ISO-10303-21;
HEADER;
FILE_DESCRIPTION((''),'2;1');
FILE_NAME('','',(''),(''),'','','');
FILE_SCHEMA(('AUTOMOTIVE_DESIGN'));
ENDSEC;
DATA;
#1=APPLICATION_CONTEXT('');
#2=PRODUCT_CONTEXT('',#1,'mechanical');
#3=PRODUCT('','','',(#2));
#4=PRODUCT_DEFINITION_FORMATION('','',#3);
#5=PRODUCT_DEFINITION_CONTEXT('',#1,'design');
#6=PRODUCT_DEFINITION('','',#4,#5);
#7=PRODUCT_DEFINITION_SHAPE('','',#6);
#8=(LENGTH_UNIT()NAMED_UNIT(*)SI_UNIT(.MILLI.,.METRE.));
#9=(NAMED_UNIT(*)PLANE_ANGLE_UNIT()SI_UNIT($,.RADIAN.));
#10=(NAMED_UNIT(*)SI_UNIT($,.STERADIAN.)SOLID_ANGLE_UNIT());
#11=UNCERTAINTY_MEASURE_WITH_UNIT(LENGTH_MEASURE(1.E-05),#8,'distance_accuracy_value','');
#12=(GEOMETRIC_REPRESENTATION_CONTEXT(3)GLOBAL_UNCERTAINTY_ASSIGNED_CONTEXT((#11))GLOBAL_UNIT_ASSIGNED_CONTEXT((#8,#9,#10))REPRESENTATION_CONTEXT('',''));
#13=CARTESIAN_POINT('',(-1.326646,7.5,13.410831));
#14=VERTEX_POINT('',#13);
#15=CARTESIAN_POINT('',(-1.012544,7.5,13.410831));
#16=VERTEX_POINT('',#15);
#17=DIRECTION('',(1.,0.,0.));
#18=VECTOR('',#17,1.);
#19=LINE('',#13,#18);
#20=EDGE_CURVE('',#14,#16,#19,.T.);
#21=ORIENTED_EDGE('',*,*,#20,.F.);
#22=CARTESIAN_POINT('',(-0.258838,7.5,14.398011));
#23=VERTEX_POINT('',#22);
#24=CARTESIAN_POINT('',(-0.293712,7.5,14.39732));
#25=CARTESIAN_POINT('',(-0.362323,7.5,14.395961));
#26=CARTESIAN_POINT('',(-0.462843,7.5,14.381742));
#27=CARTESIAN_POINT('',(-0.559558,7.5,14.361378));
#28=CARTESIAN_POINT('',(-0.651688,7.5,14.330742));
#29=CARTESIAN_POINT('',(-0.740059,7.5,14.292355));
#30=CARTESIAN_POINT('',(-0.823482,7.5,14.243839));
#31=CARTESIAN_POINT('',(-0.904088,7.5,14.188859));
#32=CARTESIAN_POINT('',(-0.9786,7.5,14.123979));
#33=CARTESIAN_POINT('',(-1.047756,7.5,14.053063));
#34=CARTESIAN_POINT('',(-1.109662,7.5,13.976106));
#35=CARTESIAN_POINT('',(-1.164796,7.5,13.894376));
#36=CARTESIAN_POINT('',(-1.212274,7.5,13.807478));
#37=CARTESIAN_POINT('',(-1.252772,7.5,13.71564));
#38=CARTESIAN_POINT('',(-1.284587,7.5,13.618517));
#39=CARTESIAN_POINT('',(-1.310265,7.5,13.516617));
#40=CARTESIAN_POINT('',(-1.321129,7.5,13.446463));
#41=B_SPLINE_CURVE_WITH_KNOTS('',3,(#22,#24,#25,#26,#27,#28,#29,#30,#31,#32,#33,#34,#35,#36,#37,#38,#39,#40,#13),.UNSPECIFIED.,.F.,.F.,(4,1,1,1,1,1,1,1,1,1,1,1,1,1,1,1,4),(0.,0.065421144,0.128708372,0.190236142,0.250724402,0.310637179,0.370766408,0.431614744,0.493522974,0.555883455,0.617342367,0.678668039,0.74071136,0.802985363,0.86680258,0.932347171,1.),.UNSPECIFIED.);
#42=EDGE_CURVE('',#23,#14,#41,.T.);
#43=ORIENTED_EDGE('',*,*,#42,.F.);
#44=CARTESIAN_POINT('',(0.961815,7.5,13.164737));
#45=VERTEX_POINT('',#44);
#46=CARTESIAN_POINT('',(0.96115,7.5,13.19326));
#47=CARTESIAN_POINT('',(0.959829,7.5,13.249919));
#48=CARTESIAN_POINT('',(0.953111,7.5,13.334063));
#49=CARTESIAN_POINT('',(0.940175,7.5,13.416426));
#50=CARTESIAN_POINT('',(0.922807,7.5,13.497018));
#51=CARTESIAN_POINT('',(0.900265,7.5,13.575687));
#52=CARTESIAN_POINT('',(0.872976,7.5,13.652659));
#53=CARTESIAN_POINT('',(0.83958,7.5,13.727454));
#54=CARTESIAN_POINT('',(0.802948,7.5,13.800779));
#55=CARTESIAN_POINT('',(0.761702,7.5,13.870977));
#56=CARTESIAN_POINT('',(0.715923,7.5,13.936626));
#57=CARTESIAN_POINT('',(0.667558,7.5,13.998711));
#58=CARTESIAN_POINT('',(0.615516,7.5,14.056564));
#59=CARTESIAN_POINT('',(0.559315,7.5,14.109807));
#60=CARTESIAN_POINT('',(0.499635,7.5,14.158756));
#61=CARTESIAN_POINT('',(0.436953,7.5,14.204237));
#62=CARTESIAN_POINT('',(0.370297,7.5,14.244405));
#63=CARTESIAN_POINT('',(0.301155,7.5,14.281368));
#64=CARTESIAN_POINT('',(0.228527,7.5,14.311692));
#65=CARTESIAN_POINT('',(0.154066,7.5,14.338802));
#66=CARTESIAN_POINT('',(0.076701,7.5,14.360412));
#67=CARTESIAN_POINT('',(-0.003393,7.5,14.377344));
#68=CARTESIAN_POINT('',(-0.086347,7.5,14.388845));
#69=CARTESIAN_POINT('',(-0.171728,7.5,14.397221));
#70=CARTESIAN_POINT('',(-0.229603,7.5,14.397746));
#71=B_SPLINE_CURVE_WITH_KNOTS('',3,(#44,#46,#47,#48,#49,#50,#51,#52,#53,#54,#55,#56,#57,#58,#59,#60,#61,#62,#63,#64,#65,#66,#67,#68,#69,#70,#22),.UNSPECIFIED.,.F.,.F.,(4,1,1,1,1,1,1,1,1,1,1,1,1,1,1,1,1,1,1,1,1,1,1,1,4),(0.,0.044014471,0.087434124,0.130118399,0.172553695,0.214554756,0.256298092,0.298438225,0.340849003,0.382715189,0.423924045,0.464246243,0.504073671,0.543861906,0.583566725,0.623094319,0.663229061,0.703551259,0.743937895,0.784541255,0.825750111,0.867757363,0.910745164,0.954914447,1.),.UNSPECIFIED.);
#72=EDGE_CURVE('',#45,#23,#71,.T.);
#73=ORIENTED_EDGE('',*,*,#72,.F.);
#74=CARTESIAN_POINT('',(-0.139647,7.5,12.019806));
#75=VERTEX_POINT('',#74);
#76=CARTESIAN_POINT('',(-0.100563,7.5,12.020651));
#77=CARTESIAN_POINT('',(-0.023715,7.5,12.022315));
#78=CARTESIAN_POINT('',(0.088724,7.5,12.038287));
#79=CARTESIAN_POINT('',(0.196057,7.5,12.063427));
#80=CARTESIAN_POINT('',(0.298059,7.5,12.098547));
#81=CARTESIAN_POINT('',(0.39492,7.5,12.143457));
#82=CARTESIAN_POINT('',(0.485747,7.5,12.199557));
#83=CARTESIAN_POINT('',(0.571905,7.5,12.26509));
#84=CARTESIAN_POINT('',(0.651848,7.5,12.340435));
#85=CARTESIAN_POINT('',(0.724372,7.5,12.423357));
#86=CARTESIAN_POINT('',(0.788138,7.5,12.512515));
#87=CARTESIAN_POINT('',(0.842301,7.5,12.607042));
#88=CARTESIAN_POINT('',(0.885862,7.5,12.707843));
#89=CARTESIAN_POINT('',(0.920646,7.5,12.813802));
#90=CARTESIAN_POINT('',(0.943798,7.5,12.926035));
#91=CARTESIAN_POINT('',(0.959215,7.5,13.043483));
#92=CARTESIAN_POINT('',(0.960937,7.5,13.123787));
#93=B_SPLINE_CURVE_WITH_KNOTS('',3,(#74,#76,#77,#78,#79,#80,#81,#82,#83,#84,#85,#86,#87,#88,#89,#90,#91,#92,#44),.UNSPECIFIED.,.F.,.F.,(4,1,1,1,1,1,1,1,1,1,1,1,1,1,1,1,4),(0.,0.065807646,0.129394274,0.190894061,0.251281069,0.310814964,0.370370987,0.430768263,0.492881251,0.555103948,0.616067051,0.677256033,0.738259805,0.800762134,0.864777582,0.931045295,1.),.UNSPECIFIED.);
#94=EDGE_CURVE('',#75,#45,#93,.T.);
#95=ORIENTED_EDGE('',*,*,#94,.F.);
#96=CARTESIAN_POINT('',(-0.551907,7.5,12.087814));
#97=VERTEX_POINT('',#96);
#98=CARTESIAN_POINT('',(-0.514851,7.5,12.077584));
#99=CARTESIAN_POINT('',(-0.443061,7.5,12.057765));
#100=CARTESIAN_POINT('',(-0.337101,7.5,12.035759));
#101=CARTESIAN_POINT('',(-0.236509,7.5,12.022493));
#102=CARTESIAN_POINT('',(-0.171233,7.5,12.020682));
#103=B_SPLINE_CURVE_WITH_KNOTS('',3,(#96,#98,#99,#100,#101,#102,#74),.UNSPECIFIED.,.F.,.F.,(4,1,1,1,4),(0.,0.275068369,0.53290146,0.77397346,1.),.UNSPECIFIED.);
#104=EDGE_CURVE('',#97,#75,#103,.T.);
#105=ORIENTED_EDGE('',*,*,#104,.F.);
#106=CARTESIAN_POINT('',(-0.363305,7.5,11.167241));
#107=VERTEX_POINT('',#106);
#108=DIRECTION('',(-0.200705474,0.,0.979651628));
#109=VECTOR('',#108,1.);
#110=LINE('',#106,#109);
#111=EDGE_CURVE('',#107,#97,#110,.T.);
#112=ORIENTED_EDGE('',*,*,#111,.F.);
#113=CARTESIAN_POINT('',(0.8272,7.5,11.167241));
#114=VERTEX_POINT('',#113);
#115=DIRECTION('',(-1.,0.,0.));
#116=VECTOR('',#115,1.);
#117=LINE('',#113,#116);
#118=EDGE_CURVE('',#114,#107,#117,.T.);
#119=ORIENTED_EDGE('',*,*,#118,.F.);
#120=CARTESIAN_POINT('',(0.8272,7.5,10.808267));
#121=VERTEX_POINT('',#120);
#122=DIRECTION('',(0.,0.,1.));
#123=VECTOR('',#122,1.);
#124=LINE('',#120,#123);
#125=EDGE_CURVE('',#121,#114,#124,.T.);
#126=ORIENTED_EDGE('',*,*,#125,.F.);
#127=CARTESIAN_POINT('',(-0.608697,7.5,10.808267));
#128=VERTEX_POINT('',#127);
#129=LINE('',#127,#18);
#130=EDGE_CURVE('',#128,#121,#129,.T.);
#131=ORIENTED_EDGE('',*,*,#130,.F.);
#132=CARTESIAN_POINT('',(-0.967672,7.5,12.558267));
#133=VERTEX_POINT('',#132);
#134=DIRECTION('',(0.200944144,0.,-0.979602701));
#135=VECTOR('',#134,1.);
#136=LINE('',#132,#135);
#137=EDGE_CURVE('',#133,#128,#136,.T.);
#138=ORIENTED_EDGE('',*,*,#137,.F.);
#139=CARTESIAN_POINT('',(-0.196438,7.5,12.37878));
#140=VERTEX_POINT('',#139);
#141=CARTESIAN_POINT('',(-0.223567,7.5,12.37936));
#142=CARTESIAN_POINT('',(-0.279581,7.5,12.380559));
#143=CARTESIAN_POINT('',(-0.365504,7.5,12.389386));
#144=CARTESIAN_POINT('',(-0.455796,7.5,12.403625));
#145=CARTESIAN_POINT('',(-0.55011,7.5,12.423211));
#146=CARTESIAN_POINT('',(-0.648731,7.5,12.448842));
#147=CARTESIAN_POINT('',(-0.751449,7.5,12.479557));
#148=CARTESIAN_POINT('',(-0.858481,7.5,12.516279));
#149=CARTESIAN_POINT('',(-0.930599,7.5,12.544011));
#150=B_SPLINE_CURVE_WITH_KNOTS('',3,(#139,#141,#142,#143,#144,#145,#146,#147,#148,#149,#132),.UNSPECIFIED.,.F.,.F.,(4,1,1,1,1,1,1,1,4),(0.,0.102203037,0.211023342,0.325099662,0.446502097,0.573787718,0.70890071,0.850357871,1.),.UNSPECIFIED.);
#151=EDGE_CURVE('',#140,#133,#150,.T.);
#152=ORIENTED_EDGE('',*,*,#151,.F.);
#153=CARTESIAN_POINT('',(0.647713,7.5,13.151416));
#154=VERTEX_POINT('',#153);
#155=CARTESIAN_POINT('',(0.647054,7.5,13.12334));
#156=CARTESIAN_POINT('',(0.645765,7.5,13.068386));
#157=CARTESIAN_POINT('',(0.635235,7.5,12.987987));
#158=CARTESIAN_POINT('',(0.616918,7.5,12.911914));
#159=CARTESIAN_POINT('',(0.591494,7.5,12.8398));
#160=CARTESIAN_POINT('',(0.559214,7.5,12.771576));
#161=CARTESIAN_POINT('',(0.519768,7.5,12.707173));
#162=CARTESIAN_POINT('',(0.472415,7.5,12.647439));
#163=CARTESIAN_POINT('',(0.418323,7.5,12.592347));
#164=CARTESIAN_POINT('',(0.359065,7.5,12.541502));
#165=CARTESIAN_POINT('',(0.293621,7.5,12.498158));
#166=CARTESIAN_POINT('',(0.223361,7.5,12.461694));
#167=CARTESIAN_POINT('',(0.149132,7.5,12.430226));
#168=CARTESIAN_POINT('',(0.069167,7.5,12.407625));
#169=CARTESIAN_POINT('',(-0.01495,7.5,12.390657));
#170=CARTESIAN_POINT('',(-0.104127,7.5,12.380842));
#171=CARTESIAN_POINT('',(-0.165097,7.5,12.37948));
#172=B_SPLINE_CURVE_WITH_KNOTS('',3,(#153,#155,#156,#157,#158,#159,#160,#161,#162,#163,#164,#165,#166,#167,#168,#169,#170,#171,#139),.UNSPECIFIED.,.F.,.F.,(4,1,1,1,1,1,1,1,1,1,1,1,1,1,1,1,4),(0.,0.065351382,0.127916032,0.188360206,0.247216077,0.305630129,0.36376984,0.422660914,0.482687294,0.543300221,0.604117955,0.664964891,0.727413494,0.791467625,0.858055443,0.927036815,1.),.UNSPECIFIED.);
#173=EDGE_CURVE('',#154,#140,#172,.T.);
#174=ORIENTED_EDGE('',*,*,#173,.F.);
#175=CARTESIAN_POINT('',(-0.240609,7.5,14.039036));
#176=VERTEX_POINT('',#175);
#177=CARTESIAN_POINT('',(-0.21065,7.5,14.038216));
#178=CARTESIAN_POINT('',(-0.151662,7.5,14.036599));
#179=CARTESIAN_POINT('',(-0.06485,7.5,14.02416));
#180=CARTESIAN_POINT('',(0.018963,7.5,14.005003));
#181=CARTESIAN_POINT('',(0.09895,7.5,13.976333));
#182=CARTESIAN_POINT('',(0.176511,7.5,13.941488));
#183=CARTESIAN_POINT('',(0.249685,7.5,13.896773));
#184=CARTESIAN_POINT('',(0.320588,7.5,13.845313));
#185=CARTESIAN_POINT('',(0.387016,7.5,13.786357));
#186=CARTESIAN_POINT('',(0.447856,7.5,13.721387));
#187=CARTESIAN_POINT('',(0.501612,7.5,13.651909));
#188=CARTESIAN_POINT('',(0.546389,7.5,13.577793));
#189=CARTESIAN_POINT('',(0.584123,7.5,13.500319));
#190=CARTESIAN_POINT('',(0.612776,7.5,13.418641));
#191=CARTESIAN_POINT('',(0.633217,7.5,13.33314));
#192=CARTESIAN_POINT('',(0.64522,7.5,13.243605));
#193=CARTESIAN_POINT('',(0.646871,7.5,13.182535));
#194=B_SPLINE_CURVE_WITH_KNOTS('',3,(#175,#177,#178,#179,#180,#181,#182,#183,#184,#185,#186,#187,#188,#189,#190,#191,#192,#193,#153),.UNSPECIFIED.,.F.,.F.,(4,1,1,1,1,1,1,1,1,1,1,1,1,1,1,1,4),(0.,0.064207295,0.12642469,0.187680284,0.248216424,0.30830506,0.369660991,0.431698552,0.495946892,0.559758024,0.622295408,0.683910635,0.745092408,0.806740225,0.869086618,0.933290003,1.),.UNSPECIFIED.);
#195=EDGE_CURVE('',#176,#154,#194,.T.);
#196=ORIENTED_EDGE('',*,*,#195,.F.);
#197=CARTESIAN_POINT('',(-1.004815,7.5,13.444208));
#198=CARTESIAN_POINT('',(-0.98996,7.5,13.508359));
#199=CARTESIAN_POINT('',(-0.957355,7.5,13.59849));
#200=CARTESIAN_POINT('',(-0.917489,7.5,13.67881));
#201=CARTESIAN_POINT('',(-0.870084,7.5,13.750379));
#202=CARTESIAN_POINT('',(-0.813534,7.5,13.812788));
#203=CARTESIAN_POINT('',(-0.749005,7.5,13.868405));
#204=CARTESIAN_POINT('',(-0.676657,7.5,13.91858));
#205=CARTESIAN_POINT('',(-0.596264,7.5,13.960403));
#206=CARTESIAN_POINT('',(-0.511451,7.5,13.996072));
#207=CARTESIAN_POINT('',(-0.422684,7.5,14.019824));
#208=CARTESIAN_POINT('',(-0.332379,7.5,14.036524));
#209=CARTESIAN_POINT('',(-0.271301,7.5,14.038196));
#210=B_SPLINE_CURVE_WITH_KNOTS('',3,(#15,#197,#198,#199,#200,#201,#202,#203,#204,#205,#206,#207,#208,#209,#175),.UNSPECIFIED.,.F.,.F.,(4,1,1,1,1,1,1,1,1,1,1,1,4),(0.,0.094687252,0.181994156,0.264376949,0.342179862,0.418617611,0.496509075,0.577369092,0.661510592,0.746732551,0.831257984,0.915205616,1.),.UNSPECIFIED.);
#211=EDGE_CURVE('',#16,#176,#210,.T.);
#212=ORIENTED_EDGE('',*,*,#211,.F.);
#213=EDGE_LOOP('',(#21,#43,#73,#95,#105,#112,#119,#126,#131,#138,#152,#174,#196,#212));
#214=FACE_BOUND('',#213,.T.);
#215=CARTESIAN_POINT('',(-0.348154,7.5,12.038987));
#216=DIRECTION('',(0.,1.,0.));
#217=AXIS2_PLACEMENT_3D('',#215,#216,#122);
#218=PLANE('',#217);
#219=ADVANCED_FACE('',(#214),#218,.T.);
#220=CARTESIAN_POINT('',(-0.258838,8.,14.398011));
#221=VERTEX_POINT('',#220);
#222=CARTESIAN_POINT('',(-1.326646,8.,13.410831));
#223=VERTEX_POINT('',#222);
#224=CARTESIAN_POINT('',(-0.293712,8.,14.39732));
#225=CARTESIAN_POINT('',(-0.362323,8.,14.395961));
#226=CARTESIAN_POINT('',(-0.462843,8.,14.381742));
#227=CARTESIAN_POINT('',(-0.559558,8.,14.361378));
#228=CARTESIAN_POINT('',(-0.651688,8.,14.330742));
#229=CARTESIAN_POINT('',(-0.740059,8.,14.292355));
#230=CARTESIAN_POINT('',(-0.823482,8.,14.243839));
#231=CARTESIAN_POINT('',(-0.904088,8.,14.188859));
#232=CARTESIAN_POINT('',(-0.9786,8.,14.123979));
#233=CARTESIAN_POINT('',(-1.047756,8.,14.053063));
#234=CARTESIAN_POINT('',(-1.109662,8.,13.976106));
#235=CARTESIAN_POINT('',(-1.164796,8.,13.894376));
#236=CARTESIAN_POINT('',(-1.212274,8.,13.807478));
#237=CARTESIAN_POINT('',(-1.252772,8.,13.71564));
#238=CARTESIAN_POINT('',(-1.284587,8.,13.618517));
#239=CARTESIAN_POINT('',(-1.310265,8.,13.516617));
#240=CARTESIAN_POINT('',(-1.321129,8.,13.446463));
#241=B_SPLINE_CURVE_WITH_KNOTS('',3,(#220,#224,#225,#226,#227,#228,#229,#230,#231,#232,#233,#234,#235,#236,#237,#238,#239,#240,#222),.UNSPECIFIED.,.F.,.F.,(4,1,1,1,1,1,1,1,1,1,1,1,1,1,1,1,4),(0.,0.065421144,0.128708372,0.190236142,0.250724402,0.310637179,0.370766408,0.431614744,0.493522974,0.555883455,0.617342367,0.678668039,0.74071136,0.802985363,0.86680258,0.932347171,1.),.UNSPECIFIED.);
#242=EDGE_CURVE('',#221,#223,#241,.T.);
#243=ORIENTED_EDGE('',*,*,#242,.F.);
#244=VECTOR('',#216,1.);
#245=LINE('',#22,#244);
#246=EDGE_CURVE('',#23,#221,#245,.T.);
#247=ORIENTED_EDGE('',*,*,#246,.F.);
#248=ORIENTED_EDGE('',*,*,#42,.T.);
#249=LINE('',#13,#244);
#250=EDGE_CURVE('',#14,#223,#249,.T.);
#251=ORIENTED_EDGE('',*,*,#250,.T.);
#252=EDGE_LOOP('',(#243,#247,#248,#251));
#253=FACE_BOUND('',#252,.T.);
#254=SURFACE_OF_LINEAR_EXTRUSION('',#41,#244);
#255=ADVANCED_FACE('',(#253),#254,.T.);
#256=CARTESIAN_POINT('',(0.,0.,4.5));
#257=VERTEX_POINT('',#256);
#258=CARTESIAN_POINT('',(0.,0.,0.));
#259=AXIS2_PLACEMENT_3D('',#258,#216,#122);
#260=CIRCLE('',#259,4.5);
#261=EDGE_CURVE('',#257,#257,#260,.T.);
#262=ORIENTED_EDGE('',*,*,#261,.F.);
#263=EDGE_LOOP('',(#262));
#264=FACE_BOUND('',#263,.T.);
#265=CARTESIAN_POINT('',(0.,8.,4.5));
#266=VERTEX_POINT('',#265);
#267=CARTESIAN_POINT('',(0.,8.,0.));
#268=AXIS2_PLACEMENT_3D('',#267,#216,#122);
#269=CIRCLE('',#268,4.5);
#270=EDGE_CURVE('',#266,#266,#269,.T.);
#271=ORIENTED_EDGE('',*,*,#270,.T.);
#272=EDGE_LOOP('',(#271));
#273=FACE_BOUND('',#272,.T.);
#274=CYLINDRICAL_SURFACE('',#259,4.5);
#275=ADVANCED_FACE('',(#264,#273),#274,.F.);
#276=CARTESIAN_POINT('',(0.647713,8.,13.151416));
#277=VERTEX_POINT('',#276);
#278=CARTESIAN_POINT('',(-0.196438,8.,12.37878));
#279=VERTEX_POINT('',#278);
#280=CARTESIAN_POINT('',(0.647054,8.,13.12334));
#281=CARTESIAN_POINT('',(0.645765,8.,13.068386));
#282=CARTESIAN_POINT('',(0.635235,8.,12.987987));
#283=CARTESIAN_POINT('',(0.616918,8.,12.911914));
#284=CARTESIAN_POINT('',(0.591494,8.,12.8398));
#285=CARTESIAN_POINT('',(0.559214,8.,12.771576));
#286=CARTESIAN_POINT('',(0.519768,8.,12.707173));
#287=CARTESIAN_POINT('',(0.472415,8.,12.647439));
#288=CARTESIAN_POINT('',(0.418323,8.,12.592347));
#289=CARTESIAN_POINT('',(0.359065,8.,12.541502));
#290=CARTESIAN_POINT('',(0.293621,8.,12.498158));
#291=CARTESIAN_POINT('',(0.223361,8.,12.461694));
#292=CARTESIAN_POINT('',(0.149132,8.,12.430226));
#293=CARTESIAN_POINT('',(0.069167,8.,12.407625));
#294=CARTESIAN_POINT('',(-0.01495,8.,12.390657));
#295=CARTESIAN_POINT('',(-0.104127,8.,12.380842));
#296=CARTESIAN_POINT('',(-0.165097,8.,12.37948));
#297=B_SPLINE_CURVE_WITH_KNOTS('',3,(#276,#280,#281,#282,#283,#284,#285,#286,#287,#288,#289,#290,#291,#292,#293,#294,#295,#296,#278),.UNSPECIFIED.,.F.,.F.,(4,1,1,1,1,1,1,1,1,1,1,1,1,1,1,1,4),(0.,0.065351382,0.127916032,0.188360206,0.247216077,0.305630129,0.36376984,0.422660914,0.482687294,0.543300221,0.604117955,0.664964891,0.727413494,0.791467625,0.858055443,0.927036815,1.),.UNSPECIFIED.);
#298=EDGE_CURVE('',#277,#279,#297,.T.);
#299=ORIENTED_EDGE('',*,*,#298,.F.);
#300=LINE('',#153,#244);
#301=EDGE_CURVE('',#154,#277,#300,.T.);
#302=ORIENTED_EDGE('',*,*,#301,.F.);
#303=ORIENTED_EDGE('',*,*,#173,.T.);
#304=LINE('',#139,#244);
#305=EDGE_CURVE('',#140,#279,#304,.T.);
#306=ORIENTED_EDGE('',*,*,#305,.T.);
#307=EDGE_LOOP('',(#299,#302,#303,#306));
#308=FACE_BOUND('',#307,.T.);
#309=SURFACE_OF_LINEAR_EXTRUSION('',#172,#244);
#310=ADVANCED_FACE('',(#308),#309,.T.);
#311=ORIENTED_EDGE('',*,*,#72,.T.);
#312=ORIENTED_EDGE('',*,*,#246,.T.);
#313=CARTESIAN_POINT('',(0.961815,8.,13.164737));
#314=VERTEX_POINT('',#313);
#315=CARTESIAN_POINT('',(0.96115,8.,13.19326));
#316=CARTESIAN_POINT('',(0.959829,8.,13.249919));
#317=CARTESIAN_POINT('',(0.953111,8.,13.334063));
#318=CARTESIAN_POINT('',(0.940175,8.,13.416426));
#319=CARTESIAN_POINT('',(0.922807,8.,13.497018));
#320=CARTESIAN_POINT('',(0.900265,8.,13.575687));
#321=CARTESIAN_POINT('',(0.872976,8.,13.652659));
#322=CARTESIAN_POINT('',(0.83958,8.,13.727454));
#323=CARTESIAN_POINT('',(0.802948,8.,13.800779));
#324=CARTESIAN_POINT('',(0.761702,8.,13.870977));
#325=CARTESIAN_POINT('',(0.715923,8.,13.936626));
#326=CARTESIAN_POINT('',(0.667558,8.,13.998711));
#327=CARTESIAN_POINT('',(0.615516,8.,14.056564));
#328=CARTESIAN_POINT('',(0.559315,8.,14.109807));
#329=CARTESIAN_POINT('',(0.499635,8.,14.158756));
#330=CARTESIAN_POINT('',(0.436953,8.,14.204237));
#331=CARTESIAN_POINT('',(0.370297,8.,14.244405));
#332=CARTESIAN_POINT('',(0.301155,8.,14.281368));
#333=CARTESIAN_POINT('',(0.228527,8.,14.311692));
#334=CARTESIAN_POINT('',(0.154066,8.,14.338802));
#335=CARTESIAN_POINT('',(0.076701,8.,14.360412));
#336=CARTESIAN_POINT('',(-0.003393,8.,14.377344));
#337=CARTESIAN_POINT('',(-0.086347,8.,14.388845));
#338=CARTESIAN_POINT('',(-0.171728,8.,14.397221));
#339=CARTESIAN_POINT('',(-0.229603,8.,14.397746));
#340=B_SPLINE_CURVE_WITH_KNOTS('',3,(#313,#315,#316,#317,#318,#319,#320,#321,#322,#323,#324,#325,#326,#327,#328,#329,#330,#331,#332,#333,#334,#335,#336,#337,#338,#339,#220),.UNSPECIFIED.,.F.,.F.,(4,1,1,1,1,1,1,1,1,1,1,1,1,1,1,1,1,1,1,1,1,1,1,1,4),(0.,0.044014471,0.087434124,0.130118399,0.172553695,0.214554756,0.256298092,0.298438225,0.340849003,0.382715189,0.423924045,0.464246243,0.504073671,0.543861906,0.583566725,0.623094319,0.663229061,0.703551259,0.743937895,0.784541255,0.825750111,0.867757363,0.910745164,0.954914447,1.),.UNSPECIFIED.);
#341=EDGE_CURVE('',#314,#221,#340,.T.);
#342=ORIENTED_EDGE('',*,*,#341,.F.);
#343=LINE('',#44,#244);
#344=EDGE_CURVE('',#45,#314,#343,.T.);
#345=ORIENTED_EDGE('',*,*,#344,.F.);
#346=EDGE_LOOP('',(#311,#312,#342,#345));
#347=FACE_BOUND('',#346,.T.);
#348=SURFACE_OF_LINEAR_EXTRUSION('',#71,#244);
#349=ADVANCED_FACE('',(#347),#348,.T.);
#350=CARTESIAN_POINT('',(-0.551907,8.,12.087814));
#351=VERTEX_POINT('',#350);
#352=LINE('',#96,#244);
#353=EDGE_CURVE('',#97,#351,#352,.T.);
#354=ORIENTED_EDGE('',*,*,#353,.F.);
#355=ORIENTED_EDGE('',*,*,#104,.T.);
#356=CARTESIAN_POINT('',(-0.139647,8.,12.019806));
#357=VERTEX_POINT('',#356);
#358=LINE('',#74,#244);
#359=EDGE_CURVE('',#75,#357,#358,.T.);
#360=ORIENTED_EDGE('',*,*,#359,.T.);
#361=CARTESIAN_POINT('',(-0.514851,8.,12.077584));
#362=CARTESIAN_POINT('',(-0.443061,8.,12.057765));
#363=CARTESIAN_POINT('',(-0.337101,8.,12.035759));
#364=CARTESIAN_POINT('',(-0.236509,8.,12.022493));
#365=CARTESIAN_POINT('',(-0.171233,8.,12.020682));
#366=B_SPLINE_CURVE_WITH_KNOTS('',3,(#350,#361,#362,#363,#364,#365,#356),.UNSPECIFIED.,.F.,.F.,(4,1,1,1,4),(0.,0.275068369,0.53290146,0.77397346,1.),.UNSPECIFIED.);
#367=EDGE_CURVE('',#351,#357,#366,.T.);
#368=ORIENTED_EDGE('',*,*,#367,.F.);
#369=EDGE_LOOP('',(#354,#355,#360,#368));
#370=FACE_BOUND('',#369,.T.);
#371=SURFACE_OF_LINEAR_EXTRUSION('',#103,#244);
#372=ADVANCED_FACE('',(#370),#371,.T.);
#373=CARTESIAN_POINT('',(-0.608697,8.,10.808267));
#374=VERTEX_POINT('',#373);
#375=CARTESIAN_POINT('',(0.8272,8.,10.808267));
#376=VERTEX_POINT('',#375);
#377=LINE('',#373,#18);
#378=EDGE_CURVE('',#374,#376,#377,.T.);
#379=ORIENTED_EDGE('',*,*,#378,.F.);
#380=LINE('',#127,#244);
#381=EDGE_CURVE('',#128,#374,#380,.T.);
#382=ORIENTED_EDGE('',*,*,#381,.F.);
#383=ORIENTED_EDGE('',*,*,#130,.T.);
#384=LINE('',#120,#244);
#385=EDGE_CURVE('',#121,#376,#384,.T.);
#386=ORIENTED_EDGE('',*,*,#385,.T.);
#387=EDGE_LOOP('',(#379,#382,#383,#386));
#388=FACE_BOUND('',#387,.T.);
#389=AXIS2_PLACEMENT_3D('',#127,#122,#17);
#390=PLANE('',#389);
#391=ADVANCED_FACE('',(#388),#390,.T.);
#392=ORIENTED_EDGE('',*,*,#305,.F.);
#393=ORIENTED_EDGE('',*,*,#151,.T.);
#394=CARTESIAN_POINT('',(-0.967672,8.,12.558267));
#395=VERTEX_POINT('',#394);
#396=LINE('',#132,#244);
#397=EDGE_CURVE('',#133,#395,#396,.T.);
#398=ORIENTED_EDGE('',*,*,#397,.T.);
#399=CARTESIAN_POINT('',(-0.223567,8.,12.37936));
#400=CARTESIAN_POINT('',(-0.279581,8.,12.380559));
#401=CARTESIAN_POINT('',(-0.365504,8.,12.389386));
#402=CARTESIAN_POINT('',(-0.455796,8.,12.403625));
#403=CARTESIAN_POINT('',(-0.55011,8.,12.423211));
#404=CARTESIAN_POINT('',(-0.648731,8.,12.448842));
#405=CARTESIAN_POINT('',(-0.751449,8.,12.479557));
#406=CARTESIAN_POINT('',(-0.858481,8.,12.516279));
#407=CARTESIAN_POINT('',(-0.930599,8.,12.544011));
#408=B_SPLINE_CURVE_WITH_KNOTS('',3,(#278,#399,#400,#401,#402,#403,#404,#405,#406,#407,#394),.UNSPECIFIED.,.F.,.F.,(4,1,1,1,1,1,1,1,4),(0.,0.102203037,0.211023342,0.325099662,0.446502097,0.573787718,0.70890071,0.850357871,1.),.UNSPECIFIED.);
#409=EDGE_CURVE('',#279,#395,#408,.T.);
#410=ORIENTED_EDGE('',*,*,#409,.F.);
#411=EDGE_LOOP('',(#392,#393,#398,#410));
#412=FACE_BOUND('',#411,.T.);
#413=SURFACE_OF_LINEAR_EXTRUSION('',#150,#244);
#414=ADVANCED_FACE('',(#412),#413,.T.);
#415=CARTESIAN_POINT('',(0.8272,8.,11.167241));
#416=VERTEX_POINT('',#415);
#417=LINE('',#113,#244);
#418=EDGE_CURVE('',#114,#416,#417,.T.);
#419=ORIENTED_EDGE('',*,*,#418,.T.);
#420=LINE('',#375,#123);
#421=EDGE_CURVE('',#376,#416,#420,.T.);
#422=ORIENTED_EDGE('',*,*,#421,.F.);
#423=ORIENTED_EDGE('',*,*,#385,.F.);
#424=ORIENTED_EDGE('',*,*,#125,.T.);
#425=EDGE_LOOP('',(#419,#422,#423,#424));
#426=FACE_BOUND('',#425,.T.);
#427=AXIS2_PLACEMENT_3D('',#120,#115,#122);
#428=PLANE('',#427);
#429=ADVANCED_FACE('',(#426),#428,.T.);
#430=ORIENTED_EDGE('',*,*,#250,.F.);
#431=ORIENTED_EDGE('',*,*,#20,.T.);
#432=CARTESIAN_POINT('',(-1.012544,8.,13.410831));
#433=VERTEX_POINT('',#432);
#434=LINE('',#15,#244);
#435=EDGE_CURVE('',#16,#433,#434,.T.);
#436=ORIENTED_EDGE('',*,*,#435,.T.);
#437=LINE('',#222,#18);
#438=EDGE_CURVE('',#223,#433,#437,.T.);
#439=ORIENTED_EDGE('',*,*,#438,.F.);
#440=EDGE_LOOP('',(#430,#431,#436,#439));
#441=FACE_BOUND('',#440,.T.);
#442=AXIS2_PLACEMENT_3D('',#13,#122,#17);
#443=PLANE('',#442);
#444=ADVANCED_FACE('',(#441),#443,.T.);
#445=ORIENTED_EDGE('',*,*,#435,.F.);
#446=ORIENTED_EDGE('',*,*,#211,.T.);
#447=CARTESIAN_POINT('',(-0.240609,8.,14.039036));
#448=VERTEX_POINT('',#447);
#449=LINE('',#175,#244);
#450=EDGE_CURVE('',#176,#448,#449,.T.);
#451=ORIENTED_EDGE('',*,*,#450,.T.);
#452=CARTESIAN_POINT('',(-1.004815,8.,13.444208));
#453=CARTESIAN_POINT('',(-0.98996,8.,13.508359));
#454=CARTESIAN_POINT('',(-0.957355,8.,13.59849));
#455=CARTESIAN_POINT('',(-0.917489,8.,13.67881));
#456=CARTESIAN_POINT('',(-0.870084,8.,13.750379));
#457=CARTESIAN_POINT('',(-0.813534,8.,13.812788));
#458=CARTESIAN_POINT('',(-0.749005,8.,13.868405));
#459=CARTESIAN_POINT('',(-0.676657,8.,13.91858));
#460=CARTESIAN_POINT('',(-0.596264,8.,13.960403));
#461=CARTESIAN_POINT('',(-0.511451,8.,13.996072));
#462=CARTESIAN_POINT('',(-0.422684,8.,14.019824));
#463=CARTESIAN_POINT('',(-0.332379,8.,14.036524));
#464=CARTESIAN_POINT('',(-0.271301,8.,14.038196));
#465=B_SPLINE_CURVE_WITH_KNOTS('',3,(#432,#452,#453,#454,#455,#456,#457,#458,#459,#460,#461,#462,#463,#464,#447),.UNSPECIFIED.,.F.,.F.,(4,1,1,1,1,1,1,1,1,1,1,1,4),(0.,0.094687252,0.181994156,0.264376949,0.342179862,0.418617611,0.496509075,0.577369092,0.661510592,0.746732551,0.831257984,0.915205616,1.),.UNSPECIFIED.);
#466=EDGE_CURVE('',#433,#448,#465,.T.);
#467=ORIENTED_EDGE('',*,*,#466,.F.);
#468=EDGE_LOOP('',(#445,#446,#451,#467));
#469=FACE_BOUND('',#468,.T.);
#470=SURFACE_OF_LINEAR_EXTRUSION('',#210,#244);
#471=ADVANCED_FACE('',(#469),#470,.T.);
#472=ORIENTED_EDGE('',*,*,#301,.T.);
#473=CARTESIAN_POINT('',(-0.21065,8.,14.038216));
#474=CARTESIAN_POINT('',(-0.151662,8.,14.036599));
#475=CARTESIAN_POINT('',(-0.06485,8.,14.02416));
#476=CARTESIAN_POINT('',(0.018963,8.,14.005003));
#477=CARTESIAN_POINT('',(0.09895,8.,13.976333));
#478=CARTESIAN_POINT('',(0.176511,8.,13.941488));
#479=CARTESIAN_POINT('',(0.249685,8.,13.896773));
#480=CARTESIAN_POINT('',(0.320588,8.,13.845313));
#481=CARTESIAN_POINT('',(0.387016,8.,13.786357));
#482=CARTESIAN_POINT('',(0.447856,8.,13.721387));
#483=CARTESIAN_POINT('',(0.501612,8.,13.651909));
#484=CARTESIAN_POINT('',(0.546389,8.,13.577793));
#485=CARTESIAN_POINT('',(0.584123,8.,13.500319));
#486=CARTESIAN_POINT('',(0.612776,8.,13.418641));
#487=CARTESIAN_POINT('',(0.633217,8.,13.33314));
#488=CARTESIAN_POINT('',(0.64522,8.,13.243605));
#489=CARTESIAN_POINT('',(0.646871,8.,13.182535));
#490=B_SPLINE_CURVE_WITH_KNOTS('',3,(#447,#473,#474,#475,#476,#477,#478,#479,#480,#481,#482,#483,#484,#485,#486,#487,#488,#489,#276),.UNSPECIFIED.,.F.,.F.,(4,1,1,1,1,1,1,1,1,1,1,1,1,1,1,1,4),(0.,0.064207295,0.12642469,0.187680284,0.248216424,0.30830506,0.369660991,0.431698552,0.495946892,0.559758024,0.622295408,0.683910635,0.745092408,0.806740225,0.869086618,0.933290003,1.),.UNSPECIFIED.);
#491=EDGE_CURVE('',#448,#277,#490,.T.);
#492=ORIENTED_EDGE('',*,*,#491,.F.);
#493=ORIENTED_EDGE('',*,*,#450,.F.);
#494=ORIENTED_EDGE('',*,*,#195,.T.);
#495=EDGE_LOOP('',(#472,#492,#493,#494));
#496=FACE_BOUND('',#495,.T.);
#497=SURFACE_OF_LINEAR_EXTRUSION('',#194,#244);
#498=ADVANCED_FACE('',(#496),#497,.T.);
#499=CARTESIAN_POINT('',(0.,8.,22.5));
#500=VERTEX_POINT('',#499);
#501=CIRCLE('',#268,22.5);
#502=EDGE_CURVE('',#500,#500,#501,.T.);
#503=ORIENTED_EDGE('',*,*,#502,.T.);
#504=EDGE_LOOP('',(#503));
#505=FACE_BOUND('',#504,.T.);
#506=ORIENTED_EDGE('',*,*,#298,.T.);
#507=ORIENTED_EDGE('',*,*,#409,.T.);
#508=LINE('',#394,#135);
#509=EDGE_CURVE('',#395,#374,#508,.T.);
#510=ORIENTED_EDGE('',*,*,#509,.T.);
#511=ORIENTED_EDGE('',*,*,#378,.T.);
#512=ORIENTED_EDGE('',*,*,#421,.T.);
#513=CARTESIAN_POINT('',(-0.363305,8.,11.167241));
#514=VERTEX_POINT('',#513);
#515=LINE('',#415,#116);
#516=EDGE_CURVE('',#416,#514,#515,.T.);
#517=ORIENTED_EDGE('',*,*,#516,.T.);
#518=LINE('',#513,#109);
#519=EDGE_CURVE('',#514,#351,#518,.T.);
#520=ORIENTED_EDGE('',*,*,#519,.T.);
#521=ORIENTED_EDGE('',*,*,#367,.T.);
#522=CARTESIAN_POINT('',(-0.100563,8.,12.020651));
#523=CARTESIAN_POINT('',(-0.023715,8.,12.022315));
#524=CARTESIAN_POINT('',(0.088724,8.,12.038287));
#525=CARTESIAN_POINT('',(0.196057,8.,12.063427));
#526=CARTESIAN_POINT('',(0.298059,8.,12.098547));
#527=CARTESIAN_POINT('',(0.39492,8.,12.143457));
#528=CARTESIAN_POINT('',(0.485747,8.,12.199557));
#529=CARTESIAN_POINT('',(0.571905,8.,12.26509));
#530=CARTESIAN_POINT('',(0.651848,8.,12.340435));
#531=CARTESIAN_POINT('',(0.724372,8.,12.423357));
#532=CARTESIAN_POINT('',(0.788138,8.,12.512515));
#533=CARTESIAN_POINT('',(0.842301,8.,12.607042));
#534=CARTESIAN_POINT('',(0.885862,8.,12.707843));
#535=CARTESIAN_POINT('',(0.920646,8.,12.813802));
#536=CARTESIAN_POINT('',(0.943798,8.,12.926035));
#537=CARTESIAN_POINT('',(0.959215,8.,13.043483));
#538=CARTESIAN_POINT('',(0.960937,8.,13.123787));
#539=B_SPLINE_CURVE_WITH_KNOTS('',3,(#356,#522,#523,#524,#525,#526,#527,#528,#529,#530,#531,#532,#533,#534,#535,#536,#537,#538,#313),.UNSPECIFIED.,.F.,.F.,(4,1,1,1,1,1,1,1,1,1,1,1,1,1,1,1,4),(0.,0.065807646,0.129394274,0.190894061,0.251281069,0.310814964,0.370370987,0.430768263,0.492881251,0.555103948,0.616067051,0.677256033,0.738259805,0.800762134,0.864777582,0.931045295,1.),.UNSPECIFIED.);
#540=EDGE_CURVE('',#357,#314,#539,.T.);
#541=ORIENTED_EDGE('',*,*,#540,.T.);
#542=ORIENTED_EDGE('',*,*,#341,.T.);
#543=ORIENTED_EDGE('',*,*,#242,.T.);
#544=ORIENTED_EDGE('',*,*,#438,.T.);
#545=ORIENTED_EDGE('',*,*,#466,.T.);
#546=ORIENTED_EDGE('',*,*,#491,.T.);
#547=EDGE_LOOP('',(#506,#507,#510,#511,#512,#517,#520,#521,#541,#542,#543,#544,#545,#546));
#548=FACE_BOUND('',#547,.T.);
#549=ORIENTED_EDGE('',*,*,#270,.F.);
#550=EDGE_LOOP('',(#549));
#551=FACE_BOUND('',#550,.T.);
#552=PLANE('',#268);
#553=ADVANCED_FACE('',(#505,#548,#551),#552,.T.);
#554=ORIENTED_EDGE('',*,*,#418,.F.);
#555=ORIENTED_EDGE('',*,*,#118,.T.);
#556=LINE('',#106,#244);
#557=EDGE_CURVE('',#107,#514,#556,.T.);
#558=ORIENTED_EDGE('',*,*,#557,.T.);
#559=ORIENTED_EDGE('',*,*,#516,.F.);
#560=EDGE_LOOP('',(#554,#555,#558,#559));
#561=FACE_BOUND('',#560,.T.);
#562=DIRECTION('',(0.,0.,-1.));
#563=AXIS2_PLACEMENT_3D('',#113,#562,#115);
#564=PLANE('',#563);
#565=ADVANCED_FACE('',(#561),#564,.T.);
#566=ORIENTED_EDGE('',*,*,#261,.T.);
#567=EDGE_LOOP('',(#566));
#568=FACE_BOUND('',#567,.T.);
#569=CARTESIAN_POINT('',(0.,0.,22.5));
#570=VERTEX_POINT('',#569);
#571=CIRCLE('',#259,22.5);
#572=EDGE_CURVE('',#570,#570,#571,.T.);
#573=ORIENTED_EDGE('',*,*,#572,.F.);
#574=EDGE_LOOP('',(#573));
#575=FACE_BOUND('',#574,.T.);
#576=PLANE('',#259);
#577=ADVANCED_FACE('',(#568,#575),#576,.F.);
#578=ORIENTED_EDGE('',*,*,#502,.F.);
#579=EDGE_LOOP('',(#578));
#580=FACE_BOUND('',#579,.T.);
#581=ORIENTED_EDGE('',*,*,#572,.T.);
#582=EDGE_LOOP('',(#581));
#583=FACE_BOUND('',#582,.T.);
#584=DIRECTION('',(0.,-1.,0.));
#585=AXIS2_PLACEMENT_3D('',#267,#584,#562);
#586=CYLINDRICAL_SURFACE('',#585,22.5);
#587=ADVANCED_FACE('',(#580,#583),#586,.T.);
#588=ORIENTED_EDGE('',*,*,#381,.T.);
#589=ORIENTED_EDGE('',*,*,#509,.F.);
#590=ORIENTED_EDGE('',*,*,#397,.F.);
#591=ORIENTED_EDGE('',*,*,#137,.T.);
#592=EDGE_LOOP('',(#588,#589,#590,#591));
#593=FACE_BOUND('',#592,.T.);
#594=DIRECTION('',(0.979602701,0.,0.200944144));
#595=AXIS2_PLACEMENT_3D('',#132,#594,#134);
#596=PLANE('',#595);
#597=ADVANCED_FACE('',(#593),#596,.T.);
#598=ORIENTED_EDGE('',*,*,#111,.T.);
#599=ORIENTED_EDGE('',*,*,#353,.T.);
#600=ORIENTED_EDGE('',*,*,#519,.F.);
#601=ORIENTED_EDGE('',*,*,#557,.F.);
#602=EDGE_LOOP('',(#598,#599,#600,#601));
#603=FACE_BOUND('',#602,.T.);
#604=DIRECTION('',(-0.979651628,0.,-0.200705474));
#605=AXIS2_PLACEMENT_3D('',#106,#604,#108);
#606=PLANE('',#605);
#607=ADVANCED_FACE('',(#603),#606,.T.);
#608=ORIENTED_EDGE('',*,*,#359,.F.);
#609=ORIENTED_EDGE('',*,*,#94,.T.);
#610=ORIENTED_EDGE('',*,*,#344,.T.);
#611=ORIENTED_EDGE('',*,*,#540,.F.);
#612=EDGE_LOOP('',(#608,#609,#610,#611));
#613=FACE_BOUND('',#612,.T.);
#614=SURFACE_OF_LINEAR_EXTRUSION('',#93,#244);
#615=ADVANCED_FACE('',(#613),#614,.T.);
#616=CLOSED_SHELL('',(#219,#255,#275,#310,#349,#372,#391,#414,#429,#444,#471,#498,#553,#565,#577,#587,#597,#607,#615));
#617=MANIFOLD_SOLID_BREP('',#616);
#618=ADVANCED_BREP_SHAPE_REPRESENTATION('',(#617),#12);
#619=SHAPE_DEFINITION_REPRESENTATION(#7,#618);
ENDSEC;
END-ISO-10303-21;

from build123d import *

# Parameters (mm, degrees)
ESQUISSE1_R             = 22.5
BOSS_EXTRU_1_DEPTH      = 8
ESQUISSE2_R             = 4.5
ENL_V_MAT_EXTRU_1_DEPTH = 8
ENL_V_MAT_EXTRU_2_DEPTH = 0.5


with BuildPart() as part:
    # Esquisse1 → Boss.-Extru.1 (new body)
    with BuildSketch(Plane(origin=(0, 0, 0), x_dir=(1, 0, 0), z_dir=(0, 1, 0))):
        Circle(ESQUISSE1_R)
    extrude(amount=BOSS_EXTRU_1_DEPTH)

    # Esquisse2 → Enlèv. mat.-Extru.1 (cut)
    with BuildSketch(Plane(origin=(0, 8, 0), x_dir=(1, 0, 0), z_dir=(0, 1, 0))):
        Circle(ESQUISSE2_R)
    extrude(amount=-ENL_V_MAT_EXTRU_1_DEPTH, mode=Mode.SUBTRACT)

    # Esquisse3 → Enlèv. mat.-Extru.2 (cut)
    with BuildSketch(Plane(origin=(0, 8, 0), x_dir=(1, 0, 0), z_dir=(0, 1, 0))):
        with BuildLine():
            Line((0.827199958, -10.808267064), (0.827199958, -11.167241423))
            Line((0.827199958, -11.167241423), (-0.36330485, -11.167241423))
            Line((-0.36330485, -11.167241423), (-0.551906612, -12.08781434))
            add(Edge.make_bspline(
                [(-0.551906612, -12.08781434), (-0.514850738, -12.077584068), (-0.443060842, -12.057764534), (-0.337100981, -12.035758764), (-0.236508778, -12.02249332), (-0.171233407, -12.020682009), (-0.139646997, -12.019805526)],
                knots=[0, 0, 0, 0, 0.000115302, 0.000223379, 0.000324431, 0.000419176, 0.000419176, 0.000419176, 0.000419176], degree=3))
            add(Edge.make_bspline(
                [(-0.139646997, -12.019805526), (-0.100563257, -12.020651461), (-0.02371486, -12.022314782), (0.088724087, -12.038286632), (0.19605698, -12.063426546), (0.29805935, -12.098547068), (0.394919901, -12.143456801), (0.485747463, -12.199556742), (0.571905376, -12.265090073), (0.65184797, -12.340435085), (0.724372278, -12.423356702), (0.788138267, -12.512514573), (0.842300858, -12.607042235), (0.885861613, -12.707842843), (0.920645947, -12.813801997), (0.943797942, -12.926034579), (0.959214651, -13.043482699), (0.960937037, -13.123787269), (0.961815343, -13.164737417)],
                knots=[0, 0, 0, 0, 0.00011719, 0.000230425, 0.000339944, 0.000447481, 0.000553499, 0.000659556, 0.000767111, 0.000877722, 0.000988528, 0.001097091, 0.001206056, 0.001314692, 0.001425996, 0.001539995, 0.001658004, 0.001780798, 0.001780798, 0.001780798, 0.001780798], degree=3))
            add(Edge.make_bspline(
                [(0.961815343, -13.164737417), (0.961150268, -13.193259637), (0.959829105, -13.249918625), (0.953110517, -13.334062825), (0.940174801, -13.416425658), (0.922807077, -13.49701805), (0.900264659, -13.575687422), (0.872975605, -13.65265895), (0.839579578, -13.727453557), (0.802948202, -13.800778952), (0.761701724, -13.870977459), (0.715923217, -13.936626446), (0.667557726, -13.998710727), (0.61551634, -14.05656446), (0.559315345, -14.109807478), (0.499635378, -14.15875576), (0.436952659, -14.20423709), (0.370297417, -14.244405285), (0.301154934, -14.281368241), (0.228526717, -14.311691779), (0.154066016, -14.338802307), (0.076701141, -14.360411834), (-0.003392672, -14.377344389), (-0.086347447, -14.38884499), (-0.171728117, -14.397221427), (-0.22960313, -14.397745784), (-0.258837702, -14.398010654)],
                knots=[0, 0, 0, 0, 8.5583e-05, 0.000170009, 0.000253005, 0.000335518, 0.000417186, 0.000498352, 0.000580291, 0.000662755, 0.000744161, 0.000824288, 0.000902692, 0.000980133, 0.001057498, 0.001134702, 0.00121156, 0.001289599, 0.001368002, 0.001446531, 0.001525481, 0.001605609, 0.001687289, 0.001770875, 0.001856759, 0.001944425, 0.001944425, 0.001944425, 0.001944425], degree=3))
            add(Edge.make_bspline(
                [(-0.258837702, -14.398010654), (-0.293711883, -14.397319816), (-0.362322713, -14.395960674), (-0.462843281, -14.381742189), (-0.559557886, -14.361378272), (-0.651687987, -14.330742002), (-0.740059251, -14.292354708), (-0.823481969, -14.243838536), (-0.904087745, -14.188859432), (-0.978599782, -14.123979079), (-1.047755895, -14.053063397), (-1.109662404, -13.976105756), (-1.164795981, -13.894376314), (-1.212273728, -13.80747816), (-1.252771749, -13.715639629), (-1.284586737, -13.618516628), (-1.310265092, -13.516616624), (-1.321128513, -13.446463114), (-1.326646196, -13.410831167)],
                knots=[0, 0, 0, 0, 0.000104552, 0.000205693, 0.000304023, 0.000400691, 0.00049644, 0.000592535, 0.000689779, 0.000788716, 0.000888377, 0.000986596, 0.001084603, 0.001183757, 0.001283279, 0.001385267, 0.001490017, 0.001598135, 0.001598135, 0.001598135, 0.001598135], degree=3))
            Line((-1.326646196, -13.410831167), (-1.012543632, -13.410831167))
            add(Edge.make_bspline(
                [(-1.012543632, -13.410831167), (-1.004815074, -13.444207619), (-0.989960358, -13.508359014), (-0.957354609, -13.598490355), (-0.917488734, -13.678809579), (-0.870084385, -13.750379162), (-0.813534355, -13.81278816), (-0.749004926, -13.868405221), (-0.676657202, -13.918580351), (-0.596263973, -13.960403118), (-0.511450894, -13.996071871), (-0.422683684, -14.019823566), (-0.332379337, -14.036524459), (-0.271300967, -14.03819622), (-0.240608535, -14.039036295)],
                knots=[0, 0, 0, 0, 0.000102709, 0.000197412, 0.000286774, 0.000371169, 0.000454082, 0.000538572, 0.000626283, 0.000717552, 0.000809994, 0.00090168, 0.00099274, 0.001084718, 0.001084718, 0.001084718, 0.001084718], degree=3))
            add(Edge.make_bspline(
                [(-0.240608535, -14.039036295), (-0.210650091, -14.038215517), (-0.151661669, -14.036599399), (-0.064850282, -14.024160386), (0.018962592, -14.005002815), (0.098949949, -13.97633296), (0.176511488, -13.941488242), (0.249685259, -13.896773166), (0.320588136, -13.845313148), (0.38701627, -13.786356517), (0.447855719, -13.721386823), (0.50161184, -13.651909429), (0.546388753, -13.577792583), (0.584122862, -13.50031943), (0.612776161, -13.418640873), (0.633217142, -13.333139698), (0.645220201, -13.243604717), (0.646871381, -13.182535408), (0.647712779, -13.151416103)],
                knots=[0, 0, 0, 0, 8.9842e-05, 0.0001769, 0.000262612, 0.000347317, 0.000431396, 0.000517249, 0.000604055, 0.000693954, 0.000783242, 0.000870748, 0.000956963, 0.001042571, 0.001128832, 0.00121607, 0.001305907, 0.001399251, 0.001399251, 0.001399251, 0.001399251], degree=3))
            add(Edge.make_bspline(
                [(0.647712779, -13.151416103), (0.647054299, -13.123340351), (0.645765419, -13.068386062), (0.635234849, -12.987986855), (0.616917877, -12.911913813), (0.591493997, -12.839799579), (0.559214489, -12.771576137), (0.519768177, -12.707173077), (0.472414779, -12.647439243), (0.41832289, -12.59234669), (0.359064849, -12.541501815), (0.293621107, -12.498157728), (0.22336118, -12.461693811), (0.14913158, -12.430225812), (0.069166682, -12.407625067), (-0.014949951, -12.390657182), (-0.104126659, -12.380841819), (-0.165097347, -12.379479931), (-0.196437862, -12.378779885)],
                knots=[0, 0, 0, 0, 8.4208e-05, 0.000164824, 0.000242709, 0.000318547, 0.000393815, 0.000468731, 0.000544614, 0.00062196, 0.000700062, 0.000778428, 0.000856831, 0.000937299, 0.001019835, 0.001105635, 0.00119452, 0.001288536, 0.001288536, 0.001288536, 0.001288536], degree=3))
            add(Edge.make_bspline(
                [(-0.196437862, -12.378779885), (-0.223566791, -12.379360476), (-0.279581146, -12.380559249), (-0.365503973, -12.389385746), (-0.455795696, -12.40362504), (-0.550110192, -12.423211288), (-0.6487307, -12.448842365), (-0.751449101, -12.479556865), (-0.858481367, -12.516278864), (-0.930599092, -12.544011078), (-0.967671837, -12.558267064)],
                knots=[0, 0, 0, 0, 8.1378e-05, 0.000168026, 0.000258858, 0.000355524, 0.000456875, 0.000564457, 0.000677092, 0.000796243, 0.000796243, 0.000796243, 0.000796243], degree=3))
            Line((-0.967671837, -12.558267064), (-0.608697478, -10.808267064))
            Line((-0.608697478, -10.808267064), (0.827199958, -10.808267064))
        make_face()
    extrude(amount=-ENL_V_MAT_EXTRU_2_DEPTH, mode=Mode.SUBTRACT)


solid = part.part
